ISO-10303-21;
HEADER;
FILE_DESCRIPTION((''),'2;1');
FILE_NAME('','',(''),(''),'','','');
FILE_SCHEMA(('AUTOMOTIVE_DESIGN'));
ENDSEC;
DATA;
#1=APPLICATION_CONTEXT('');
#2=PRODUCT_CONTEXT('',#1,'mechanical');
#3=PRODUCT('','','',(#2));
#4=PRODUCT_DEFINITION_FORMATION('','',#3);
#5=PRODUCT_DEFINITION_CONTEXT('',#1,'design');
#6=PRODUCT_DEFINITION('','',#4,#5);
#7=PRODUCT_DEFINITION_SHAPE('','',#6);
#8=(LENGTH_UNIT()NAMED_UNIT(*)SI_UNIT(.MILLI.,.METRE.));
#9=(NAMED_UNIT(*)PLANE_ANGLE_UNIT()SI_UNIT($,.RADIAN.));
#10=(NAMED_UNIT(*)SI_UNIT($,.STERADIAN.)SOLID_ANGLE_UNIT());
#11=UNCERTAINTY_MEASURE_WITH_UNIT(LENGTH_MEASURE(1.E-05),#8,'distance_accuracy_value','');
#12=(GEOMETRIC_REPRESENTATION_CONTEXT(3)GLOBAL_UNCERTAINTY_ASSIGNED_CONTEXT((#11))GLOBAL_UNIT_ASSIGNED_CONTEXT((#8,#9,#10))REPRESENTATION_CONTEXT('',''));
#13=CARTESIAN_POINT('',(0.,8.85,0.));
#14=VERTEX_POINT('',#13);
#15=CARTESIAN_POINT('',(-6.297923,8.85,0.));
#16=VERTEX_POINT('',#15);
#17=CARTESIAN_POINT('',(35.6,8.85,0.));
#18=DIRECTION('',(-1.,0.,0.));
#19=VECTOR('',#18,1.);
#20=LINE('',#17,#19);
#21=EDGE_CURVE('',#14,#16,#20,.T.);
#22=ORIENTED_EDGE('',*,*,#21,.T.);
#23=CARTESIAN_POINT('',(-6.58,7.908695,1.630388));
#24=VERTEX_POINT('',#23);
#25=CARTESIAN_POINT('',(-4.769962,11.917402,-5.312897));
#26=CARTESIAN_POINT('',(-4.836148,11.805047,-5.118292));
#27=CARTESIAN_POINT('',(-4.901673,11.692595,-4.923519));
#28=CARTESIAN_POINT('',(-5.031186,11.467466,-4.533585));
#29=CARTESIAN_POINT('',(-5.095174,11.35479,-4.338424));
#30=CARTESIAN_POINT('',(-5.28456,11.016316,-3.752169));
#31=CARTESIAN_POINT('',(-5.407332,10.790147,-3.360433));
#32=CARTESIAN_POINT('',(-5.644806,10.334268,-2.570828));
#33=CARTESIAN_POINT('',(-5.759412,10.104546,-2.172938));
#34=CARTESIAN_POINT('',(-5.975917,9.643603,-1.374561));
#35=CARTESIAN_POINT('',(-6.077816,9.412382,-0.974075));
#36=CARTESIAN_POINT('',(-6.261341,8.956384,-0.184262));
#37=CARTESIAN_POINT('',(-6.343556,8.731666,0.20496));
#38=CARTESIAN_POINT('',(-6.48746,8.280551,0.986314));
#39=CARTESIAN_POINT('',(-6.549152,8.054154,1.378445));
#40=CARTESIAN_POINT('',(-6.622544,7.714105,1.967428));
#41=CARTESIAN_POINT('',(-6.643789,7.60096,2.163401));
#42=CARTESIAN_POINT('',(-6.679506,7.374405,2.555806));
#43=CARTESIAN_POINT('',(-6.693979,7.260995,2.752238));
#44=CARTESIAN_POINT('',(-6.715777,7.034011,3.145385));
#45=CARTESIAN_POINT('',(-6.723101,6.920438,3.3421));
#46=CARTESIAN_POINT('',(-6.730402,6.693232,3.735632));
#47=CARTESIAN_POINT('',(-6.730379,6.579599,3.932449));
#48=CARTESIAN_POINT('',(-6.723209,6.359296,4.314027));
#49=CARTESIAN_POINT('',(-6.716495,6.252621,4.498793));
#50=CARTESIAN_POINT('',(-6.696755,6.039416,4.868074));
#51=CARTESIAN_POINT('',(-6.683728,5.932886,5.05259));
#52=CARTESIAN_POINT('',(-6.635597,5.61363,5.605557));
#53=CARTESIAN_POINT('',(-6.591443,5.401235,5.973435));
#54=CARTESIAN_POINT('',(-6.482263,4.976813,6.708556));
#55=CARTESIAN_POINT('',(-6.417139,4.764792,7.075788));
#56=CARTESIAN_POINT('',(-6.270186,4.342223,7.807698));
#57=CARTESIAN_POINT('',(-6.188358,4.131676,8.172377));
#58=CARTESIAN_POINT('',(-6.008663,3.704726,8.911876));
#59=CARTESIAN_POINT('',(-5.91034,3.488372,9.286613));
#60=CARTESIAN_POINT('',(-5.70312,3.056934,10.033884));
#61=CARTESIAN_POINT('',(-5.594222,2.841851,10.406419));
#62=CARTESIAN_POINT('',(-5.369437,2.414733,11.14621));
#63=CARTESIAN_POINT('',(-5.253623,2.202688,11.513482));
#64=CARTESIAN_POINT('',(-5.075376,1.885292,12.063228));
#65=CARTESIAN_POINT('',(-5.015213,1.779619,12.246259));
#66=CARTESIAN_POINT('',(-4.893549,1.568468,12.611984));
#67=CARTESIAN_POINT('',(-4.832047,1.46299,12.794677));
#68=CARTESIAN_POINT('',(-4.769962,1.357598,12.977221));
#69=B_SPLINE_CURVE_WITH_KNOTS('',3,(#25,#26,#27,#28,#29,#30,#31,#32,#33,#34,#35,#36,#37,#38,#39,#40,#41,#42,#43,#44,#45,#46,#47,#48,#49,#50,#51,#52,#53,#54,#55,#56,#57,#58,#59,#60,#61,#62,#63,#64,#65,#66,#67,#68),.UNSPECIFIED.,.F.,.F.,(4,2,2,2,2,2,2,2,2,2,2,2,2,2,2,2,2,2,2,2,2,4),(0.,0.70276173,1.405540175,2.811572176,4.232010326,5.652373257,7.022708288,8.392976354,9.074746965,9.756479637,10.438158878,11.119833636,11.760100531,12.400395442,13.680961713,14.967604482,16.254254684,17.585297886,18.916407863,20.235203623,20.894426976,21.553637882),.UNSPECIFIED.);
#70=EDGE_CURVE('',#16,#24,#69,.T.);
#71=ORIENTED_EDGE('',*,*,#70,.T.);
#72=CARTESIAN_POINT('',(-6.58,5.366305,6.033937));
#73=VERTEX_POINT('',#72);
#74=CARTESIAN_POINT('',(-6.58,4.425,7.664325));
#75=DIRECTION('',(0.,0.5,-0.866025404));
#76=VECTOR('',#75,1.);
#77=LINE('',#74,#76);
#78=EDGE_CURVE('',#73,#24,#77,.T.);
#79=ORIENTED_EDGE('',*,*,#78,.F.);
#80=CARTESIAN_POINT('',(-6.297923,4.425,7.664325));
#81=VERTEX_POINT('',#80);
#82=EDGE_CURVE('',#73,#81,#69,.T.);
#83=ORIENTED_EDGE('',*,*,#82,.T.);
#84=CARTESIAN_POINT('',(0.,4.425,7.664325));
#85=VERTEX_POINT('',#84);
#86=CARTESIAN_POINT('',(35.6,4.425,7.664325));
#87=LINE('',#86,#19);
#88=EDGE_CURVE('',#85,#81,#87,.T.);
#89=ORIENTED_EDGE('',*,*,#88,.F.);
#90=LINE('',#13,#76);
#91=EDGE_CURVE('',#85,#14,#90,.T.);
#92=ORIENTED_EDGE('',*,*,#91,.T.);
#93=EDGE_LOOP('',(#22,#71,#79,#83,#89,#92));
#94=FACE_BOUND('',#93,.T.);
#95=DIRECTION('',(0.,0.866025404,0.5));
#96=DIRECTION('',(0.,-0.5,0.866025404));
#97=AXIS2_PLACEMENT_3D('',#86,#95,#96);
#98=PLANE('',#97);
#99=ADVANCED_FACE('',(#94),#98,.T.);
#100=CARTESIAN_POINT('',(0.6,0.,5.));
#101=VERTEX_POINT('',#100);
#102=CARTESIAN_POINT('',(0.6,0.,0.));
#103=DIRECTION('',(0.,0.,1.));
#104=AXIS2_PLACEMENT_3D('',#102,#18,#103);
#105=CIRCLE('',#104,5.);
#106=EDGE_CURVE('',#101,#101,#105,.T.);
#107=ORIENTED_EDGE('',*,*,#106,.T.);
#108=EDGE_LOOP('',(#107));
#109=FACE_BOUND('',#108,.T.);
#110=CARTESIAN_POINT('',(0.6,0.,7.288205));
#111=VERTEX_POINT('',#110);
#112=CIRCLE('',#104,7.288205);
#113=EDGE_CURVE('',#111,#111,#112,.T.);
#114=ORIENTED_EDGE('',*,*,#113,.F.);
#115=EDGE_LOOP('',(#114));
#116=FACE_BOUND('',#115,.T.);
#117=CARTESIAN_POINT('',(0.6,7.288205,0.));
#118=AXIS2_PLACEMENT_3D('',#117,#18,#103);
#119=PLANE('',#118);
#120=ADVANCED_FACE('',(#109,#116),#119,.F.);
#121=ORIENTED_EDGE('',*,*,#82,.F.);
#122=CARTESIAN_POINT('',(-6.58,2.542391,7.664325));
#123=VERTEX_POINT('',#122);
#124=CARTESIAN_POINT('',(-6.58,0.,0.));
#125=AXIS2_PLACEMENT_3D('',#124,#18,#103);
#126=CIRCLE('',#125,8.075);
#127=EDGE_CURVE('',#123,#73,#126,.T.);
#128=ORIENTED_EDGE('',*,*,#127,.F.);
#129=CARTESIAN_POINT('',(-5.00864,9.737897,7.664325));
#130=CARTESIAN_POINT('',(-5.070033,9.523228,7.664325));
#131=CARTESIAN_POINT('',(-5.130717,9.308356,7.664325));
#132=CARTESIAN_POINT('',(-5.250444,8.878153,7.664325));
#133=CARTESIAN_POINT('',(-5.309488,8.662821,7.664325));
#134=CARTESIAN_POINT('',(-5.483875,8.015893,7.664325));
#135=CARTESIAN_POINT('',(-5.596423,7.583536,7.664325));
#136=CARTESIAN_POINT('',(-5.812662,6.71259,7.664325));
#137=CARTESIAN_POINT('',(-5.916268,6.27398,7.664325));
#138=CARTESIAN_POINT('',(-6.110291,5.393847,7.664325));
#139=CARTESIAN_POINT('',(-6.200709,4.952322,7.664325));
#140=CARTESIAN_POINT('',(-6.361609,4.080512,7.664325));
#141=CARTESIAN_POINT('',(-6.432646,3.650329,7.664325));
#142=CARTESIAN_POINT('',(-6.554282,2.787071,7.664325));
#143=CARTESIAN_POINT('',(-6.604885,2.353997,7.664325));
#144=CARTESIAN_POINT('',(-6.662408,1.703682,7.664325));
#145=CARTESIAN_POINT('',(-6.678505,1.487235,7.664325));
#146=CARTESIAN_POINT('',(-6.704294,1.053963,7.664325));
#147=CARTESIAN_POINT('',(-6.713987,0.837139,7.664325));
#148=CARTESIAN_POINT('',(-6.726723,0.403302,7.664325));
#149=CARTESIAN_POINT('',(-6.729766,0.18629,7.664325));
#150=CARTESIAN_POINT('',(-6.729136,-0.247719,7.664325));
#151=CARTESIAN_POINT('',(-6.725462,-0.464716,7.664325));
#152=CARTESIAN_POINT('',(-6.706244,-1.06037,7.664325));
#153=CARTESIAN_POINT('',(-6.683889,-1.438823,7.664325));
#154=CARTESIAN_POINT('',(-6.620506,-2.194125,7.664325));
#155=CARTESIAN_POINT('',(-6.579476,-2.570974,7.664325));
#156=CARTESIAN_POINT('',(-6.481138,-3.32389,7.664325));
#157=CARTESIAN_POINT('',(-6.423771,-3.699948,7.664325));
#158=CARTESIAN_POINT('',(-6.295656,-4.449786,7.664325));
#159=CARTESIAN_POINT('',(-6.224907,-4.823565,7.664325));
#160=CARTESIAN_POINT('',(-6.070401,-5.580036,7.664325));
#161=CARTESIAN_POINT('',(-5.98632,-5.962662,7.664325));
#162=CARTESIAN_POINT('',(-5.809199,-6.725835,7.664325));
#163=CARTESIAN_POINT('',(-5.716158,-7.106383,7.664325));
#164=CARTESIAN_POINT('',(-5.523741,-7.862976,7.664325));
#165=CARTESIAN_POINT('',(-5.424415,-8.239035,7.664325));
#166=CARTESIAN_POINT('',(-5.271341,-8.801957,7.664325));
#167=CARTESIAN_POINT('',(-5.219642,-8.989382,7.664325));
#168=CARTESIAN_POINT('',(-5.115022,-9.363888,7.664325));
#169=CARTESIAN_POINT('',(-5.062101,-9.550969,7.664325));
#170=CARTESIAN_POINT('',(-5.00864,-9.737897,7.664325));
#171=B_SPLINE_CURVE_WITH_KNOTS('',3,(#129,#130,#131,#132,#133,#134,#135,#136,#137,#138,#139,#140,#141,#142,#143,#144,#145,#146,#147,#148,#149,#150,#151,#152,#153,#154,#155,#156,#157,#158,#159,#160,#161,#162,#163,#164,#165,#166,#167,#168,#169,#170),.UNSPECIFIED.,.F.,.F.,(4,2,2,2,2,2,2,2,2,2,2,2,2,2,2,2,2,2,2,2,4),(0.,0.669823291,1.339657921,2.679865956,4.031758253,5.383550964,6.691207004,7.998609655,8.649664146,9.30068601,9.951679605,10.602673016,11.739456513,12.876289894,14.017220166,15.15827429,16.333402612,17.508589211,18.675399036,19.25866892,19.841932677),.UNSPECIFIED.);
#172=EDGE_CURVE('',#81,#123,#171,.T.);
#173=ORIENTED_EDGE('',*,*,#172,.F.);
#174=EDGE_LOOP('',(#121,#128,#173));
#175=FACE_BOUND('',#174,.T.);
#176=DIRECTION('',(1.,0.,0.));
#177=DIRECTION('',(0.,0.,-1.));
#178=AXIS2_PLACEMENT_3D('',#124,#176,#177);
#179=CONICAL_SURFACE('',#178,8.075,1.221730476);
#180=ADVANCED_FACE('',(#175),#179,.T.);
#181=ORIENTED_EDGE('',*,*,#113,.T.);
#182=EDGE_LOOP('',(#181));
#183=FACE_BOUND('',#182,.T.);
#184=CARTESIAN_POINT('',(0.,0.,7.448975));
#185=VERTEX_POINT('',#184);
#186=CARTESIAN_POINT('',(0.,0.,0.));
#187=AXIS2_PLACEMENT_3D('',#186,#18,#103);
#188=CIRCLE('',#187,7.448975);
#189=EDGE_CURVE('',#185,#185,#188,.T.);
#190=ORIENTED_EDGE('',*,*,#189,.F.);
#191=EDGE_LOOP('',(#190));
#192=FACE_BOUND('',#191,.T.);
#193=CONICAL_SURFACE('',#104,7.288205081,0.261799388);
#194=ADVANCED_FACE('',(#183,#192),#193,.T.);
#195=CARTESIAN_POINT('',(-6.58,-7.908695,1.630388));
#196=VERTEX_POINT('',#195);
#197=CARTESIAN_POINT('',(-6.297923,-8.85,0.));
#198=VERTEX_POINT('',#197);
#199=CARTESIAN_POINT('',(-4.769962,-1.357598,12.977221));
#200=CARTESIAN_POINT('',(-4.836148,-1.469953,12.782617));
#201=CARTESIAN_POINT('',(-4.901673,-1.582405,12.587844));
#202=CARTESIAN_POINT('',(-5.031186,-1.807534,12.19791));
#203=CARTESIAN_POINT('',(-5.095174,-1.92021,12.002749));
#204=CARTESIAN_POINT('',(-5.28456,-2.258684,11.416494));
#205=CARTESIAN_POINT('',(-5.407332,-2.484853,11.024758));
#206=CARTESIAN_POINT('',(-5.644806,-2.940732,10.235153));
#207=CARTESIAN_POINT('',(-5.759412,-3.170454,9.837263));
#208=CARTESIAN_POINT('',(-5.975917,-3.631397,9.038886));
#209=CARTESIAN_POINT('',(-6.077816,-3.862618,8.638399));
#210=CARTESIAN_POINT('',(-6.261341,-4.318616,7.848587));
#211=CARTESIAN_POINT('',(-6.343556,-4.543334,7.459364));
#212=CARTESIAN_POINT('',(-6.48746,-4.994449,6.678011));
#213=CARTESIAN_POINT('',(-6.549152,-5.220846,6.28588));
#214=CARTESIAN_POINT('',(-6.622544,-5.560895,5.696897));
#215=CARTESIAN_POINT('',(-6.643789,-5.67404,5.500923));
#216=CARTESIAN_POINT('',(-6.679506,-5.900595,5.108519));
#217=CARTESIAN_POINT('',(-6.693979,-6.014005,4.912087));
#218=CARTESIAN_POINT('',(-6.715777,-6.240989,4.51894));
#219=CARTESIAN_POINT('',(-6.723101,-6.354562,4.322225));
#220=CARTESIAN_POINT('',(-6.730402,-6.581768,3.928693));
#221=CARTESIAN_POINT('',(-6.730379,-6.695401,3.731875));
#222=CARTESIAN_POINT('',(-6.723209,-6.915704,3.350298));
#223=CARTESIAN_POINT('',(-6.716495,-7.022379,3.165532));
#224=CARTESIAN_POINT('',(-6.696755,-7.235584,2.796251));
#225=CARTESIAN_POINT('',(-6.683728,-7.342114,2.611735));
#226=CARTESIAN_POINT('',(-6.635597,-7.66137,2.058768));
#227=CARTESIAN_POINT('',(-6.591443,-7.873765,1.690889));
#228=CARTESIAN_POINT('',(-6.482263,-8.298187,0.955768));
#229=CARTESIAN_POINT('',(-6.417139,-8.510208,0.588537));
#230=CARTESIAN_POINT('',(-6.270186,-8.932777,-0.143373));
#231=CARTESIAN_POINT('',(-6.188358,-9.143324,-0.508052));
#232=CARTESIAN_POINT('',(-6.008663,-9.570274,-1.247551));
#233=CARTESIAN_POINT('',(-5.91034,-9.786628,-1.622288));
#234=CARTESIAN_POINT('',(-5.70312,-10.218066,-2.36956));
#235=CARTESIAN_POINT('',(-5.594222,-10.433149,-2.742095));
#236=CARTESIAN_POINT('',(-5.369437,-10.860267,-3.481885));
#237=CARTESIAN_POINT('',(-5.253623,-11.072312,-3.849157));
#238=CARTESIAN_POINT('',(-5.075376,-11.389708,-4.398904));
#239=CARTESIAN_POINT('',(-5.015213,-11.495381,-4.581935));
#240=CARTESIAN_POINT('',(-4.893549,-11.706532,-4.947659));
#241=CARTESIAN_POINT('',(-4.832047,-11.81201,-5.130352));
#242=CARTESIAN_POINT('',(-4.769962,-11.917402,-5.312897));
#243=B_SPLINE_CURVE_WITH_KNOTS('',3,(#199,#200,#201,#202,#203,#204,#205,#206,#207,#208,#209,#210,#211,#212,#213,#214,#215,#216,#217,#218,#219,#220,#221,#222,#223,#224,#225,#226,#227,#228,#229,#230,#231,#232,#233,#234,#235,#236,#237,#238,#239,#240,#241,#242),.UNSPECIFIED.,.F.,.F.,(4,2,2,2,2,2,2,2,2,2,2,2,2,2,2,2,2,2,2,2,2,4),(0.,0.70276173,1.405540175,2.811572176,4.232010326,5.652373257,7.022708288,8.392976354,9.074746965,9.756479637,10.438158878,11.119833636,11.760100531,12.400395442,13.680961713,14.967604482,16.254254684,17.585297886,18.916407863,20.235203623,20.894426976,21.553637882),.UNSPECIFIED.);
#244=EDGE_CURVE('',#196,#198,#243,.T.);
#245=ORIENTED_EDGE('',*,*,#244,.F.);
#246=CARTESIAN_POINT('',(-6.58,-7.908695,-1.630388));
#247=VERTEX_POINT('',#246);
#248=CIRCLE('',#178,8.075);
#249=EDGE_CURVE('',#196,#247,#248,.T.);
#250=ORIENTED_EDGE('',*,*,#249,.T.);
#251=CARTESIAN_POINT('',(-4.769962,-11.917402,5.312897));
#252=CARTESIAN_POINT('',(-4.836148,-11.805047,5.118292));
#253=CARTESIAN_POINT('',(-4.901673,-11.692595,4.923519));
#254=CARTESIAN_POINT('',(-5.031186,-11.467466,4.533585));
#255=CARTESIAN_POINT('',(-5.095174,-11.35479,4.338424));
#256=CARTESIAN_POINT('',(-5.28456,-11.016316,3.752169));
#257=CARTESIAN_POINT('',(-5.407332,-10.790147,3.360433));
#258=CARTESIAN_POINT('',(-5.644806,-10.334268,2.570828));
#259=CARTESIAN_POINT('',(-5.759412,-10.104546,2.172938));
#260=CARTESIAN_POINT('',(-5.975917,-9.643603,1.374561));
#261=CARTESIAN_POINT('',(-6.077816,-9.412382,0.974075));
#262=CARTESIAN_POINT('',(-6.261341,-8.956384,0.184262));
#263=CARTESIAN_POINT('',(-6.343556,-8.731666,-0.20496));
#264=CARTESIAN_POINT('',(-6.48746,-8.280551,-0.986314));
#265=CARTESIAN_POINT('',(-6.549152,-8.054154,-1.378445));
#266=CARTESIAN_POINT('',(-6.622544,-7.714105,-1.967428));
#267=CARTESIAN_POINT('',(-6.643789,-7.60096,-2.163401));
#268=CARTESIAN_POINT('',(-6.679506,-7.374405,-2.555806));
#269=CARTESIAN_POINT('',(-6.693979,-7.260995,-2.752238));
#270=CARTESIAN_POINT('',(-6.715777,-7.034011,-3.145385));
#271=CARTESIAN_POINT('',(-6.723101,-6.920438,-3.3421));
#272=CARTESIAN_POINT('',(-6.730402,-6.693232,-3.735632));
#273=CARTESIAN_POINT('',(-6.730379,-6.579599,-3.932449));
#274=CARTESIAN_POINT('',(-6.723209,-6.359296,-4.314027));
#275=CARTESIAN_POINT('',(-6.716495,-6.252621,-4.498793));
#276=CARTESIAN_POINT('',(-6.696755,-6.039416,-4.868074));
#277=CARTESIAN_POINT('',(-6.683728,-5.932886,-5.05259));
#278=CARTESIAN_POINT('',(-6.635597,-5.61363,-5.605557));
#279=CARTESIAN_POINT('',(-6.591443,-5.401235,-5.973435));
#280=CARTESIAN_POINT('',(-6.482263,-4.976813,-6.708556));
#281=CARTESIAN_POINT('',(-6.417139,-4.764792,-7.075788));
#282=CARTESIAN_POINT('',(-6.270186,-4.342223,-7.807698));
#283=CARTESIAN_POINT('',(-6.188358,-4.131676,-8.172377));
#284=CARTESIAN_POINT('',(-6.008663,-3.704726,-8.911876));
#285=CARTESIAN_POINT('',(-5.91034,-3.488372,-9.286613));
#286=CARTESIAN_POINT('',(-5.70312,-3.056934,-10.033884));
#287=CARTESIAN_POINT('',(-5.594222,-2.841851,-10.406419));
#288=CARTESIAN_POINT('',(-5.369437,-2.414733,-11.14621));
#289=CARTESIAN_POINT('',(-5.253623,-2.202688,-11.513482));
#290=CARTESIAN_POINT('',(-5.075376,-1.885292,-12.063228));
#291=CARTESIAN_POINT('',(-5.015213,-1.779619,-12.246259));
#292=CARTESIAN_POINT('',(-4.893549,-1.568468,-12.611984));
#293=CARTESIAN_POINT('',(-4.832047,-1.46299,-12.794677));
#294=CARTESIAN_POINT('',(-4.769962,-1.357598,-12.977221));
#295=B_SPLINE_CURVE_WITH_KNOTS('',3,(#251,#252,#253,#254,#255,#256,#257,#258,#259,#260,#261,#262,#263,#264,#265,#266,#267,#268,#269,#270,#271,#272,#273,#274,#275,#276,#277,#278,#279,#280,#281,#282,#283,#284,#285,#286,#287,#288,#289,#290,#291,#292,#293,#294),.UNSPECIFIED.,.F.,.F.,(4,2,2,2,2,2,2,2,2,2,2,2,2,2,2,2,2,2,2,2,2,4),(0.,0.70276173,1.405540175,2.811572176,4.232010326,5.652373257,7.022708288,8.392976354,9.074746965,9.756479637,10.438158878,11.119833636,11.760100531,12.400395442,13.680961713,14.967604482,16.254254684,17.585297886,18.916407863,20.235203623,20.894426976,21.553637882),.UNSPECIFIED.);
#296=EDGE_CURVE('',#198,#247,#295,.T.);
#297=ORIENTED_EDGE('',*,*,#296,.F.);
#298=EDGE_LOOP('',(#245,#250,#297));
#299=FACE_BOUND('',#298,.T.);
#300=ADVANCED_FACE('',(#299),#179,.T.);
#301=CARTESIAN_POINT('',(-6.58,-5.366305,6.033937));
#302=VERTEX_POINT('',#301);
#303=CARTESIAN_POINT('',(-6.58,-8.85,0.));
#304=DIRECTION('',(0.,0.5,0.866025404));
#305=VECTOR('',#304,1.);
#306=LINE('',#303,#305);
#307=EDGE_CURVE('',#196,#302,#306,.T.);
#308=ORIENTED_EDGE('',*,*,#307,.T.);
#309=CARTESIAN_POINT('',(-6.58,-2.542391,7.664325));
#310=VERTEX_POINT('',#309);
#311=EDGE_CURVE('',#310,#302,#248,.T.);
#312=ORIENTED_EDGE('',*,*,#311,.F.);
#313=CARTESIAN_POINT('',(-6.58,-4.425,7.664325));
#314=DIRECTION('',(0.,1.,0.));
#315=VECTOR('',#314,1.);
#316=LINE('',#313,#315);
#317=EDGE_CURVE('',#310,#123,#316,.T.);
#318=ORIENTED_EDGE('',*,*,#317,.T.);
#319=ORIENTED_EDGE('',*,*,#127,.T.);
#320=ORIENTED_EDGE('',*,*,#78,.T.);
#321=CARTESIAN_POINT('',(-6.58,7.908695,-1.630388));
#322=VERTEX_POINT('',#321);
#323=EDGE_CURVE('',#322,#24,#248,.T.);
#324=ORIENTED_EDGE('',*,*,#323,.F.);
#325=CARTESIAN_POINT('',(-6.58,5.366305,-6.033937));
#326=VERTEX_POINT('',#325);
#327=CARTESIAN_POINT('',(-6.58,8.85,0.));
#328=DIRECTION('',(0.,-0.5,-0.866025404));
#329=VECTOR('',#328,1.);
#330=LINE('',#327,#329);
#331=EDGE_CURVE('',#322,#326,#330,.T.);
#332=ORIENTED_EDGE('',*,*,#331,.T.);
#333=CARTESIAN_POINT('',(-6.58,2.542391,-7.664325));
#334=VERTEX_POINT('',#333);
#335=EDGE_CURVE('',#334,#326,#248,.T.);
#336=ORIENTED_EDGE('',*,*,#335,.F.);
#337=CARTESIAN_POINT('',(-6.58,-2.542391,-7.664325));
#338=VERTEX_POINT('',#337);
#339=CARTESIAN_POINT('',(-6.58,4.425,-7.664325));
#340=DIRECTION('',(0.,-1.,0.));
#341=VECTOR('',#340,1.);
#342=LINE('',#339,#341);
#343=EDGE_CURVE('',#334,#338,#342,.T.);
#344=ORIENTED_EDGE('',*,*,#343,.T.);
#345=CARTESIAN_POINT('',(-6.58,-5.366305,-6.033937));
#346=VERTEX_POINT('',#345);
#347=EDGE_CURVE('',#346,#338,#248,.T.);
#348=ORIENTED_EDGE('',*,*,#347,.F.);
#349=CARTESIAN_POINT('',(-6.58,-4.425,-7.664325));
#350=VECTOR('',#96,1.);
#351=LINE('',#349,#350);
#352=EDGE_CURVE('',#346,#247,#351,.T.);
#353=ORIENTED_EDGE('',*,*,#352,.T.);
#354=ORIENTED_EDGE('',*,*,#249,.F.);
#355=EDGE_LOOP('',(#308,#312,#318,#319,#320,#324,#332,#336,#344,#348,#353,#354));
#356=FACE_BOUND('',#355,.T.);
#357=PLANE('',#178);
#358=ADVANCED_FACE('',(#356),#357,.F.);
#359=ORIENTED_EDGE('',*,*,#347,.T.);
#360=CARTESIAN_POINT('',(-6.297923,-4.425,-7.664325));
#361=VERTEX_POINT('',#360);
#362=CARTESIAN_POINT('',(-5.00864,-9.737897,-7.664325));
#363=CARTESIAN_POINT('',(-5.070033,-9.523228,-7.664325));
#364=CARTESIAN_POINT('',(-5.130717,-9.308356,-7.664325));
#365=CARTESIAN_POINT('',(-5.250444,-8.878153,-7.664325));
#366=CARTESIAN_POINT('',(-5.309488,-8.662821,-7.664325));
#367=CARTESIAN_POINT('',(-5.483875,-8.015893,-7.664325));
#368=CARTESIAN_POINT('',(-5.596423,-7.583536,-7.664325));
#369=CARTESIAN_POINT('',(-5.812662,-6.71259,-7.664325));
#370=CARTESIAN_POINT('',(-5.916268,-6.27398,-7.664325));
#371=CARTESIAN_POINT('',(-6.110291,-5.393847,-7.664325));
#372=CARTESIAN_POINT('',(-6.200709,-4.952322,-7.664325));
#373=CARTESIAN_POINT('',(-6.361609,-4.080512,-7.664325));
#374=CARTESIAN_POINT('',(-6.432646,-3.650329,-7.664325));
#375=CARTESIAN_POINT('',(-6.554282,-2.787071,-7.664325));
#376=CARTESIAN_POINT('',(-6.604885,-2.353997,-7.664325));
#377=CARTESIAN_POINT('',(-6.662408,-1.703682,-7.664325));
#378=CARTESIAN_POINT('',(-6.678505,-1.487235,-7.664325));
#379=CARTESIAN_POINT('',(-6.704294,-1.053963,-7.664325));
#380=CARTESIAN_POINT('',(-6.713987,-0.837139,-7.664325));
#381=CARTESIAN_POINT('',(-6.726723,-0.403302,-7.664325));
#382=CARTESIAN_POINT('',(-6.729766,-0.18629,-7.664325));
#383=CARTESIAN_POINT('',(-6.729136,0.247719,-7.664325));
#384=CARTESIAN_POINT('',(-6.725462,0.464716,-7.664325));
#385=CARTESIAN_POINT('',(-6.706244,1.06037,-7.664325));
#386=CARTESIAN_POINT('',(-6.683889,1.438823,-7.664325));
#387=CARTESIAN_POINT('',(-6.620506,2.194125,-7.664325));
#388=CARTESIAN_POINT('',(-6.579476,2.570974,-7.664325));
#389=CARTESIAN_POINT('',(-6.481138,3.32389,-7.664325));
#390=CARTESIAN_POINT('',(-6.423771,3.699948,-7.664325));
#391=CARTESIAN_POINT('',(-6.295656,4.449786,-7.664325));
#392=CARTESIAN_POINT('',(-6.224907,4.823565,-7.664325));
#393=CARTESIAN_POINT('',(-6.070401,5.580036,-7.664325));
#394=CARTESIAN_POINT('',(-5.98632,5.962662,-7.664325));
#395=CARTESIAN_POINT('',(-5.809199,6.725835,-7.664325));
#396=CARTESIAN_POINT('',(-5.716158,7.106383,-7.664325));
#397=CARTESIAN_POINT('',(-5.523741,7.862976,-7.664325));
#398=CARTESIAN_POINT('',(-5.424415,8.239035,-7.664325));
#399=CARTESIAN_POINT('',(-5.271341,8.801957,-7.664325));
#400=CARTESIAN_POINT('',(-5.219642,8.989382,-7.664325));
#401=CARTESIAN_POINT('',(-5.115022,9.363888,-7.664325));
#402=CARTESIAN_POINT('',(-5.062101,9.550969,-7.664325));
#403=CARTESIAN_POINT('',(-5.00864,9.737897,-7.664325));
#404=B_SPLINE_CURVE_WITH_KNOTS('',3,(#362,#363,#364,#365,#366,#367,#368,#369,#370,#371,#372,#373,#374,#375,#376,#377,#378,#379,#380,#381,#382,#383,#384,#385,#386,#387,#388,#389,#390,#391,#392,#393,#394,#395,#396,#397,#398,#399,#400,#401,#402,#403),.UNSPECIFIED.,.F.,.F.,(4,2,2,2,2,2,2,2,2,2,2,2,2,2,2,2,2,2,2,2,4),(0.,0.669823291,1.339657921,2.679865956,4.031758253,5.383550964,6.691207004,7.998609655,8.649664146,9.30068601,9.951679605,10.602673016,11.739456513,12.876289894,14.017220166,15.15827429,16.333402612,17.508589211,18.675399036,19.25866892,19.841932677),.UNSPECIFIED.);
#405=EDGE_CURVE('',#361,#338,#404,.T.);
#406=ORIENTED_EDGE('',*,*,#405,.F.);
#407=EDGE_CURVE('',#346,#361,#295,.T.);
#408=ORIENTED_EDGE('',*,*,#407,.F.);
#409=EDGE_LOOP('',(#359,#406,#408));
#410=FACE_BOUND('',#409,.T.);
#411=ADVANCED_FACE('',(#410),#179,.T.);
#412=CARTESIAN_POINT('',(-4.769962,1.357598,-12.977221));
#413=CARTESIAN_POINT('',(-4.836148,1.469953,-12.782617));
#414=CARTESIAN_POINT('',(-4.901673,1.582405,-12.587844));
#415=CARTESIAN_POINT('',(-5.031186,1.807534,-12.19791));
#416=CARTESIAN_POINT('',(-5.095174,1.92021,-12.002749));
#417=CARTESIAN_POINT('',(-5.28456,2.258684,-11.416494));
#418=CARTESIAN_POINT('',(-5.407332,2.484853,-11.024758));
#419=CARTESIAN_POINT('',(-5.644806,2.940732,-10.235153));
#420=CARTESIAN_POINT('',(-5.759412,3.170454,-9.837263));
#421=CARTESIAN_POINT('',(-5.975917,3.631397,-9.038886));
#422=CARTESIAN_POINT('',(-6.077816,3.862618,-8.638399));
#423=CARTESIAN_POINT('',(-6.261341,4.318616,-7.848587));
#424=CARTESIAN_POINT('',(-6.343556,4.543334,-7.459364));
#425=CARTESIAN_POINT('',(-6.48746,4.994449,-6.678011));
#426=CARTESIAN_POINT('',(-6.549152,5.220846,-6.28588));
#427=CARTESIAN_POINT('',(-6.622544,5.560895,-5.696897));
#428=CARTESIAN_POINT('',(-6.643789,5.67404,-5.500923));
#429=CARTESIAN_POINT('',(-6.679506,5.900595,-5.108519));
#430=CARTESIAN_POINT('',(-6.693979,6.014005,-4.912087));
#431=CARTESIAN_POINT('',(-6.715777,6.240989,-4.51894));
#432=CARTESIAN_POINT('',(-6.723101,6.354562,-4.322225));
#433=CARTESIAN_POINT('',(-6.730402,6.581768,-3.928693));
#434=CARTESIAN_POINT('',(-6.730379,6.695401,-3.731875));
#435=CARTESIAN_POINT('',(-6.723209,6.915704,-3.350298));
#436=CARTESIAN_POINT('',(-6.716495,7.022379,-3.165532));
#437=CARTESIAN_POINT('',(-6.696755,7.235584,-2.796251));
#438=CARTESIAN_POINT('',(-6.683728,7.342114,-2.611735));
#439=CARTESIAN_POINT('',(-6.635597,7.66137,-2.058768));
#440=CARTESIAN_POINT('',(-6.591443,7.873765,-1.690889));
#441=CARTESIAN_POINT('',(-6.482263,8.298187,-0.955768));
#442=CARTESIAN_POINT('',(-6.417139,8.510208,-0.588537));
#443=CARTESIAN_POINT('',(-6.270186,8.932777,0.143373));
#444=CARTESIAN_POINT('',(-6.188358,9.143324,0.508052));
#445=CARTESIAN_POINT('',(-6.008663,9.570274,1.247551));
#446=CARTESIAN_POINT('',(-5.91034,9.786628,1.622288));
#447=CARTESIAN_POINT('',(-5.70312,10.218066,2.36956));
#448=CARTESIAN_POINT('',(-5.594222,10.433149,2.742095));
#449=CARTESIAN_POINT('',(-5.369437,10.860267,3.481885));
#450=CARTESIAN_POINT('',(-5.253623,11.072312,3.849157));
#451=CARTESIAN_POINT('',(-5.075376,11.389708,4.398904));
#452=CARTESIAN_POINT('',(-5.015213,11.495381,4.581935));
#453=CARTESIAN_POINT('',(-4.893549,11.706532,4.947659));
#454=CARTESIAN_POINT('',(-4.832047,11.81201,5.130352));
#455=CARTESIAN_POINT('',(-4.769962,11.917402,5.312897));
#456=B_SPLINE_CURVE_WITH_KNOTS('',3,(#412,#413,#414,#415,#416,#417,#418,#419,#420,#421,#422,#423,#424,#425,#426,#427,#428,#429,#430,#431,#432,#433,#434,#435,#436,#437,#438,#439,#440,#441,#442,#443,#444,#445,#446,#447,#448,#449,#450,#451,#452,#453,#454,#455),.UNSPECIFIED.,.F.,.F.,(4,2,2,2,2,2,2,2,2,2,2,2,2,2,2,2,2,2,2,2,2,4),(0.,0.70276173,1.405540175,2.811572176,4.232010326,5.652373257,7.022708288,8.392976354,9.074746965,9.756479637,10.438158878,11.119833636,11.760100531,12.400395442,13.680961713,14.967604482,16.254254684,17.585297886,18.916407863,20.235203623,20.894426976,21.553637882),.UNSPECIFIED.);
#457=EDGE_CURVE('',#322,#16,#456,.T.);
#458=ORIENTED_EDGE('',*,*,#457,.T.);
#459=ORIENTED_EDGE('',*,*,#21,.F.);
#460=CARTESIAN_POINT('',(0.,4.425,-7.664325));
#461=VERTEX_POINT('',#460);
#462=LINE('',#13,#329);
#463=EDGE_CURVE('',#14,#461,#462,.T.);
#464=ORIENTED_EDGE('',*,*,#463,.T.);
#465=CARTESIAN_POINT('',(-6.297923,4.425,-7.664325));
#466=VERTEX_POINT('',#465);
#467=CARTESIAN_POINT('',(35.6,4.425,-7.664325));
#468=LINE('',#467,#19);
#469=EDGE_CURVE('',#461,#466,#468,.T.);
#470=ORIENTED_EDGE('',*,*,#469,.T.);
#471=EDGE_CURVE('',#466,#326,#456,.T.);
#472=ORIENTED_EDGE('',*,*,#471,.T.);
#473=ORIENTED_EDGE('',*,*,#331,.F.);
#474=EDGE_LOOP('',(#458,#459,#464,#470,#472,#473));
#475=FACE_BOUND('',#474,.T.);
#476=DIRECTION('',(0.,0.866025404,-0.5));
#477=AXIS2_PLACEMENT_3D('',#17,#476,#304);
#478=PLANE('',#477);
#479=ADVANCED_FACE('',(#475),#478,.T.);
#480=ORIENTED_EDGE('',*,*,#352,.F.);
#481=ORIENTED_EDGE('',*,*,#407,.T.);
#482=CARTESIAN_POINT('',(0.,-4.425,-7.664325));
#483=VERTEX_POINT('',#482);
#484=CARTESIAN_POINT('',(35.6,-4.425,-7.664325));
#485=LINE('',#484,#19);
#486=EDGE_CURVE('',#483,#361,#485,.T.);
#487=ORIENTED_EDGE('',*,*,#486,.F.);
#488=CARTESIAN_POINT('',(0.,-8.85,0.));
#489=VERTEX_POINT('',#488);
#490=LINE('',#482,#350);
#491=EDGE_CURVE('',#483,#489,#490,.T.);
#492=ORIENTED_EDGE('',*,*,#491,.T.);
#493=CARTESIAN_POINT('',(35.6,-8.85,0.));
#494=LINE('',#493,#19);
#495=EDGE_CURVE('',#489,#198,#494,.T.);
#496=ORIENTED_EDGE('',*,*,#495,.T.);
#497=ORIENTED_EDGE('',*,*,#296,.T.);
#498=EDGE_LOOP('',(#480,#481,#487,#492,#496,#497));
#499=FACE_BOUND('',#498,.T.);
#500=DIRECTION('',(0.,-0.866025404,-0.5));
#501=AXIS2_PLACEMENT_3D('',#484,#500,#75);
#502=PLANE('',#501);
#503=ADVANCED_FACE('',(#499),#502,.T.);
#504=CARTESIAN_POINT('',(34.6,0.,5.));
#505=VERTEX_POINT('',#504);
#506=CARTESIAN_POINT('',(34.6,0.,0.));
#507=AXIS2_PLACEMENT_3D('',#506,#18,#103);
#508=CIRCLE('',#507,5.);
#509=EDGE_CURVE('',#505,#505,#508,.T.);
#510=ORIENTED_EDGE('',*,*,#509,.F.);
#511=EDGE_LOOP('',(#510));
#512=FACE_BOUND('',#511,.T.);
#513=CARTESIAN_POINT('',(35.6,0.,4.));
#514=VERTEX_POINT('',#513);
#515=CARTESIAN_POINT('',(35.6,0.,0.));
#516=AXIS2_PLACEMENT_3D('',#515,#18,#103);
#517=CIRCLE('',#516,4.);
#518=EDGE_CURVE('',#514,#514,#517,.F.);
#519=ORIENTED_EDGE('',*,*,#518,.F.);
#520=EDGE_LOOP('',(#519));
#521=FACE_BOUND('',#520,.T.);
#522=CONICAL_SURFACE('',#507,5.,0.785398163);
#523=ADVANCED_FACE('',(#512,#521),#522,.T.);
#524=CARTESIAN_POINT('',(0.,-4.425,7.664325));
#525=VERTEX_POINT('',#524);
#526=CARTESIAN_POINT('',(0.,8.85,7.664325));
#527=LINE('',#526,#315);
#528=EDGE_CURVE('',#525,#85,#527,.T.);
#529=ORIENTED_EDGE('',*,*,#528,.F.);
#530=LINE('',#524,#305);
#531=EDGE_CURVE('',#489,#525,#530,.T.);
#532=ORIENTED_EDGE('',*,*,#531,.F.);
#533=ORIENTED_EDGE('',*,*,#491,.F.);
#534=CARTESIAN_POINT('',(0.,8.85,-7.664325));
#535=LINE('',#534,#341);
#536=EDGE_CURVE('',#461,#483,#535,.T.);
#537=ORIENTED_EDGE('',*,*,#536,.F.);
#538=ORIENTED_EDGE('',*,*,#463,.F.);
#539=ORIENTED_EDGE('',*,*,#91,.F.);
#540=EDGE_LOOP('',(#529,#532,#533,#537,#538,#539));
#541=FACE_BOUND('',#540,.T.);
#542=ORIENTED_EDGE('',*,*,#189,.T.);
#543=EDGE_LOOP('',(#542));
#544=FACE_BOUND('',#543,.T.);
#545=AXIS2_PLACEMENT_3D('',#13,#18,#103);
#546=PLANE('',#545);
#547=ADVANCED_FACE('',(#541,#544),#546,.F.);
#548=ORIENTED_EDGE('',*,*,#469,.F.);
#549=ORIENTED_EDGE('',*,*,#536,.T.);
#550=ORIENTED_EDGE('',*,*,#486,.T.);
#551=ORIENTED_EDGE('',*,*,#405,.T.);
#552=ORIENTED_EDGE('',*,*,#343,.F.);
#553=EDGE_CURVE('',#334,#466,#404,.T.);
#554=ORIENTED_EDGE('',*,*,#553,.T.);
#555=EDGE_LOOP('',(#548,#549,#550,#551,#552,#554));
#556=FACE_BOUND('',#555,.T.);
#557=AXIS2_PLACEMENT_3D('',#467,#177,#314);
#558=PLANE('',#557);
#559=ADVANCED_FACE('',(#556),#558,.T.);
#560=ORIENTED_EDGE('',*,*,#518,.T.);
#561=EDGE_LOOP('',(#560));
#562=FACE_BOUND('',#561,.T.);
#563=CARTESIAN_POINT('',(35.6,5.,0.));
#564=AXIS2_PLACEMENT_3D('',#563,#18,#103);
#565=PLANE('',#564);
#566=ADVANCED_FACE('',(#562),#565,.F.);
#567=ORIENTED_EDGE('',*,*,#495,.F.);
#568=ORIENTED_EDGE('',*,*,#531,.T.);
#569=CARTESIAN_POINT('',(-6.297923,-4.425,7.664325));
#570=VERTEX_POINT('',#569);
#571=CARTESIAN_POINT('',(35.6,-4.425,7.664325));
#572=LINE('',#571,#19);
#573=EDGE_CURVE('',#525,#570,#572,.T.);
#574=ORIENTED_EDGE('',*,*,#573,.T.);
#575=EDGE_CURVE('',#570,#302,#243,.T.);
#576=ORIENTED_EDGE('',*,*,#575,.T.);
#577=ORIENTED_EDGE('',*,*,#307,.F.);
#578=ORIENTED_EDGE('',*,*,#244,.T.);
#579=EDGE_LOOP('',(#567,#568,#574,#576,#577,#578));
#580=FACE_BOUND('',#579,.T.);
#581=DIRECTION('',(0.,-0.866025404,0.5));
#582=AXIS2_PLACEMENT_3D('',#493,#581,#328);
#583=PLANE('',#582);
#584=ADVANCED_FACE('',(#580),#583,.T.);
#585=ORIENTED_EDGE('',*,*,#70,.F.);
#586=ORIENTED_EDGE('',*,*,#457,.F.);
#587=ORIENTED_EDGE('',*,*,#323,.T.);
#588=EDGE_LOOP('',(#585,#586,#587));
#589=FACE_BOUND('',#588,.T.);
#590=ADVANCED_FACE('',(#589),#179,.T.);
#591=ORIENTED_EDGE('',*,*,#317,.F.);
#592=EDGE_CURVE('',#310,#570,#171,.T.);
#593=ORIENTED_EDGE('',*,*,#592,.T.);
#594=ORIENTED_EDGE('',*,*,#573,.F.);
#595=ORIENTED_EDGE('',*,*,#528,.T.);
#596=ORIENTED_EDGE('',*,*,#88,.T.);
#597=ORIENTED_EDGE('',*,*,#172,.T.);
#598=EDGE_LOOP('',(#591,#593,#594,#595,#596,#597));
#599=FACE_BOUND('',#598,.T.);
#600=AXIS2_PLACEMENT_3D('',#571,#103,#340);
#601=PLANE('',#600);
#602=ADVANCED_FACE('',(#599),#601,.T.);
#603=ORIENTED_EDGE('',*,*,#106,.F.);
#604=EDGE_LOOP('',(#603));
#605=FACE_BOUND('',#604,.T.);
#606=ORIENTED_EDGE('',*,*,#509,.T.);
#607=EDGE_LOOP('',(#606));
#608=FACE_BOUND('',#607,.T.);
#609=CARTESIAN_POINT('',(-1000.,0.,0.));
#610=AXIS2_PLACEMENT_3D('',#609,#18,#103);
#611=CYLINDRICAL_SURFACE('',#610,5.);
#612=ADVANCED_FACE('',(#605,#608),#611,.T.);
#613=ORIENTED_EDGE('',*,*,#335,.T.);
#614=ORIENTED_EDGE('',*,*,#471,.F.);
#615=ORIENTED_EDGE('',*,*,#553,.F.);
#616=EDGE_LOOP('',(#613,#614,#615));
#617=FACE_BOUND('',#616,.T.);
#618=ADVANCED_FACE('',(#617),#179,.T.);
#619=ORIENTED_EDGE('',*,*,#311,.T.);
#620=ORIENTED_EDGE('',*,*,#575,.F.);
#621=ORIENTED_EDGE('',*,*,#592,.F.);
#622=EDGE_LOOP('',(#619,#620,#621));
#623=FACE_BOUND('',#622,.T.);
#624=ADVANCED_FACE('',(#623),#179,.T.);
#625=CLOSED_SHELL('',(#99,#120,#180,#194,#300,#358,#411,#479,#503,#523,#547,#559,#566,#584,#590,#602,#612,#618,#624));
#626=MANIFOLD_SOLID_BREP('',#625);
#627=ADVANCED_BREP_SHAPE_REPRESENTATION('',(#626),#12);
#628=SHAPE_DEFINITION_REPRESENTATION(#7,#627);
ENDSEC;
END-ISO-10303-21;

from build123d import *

# Parameters (mm, degrees)
SKETCH_2_OUTSIDE_W  = 29.51
SKETCH_2_OUTSIDE_H  = 29.51
CUT_EXTRUDE_1_DEPTH = 44.997697667
CHAMFER_1_SIZE      = 1


with BuildPart() as part:
    # Эскиз1 → Повернуть1 (revolve)
    with BuildSketch(Plane.XY, mode=Mode.PRIVATE) as revolve_1_sk:
        Polygon((-6.58, 0), (-6.58, 8.85), (0, 8.85), (0, 7.448974596), (0.6, 7.288205081), (0.6, 5), (35.6, 5), (35.6, 0), align=None)
    revolve(revolve_1_sk.sketch.rotate(Axis((-1000, 0, 0), (1, 0, 0)), 90), axis=Axis((-1000, 0, 0), (1, 0, 0)))

    # Эскиз2 outside → Вырез-Вытянуть1 (cut, through all)
    with BuildSketch(Plane.ZY.offset(6.58)):
        Rectangle(SKETCH_2_OUTSIDE_W, SKETCH_2_OUTSIDE_H)
        Polygon((0, -8.85), (7.664324823, -4.425), (7.664324823, 4.425), (0, 8.85), (-7.664324823, 4.425), (-7.664324823, -4.425), align=None, mode=Mode.SUBTRACT)
    extrude(amount=-CUT_EXTRUDE_1_DEPTH, mode=Mode.SUBTRACT)

    # Эскиз4 → Вырез-Повернуть1 (revolve, cut)
    with BuildSketch(Plane.XY):
        Polygon((-6.58, 8.075), (-6.297923068, 8.85), (-6.58, 8.85), align=None)
    revolve(axis=Axis((-1000, 0, 0), (1, 0, 0)), mode=Mode.SUBTRACT)

    # Фаска1
    chamfer_1_edges = [part.edges().sort_by_distance(p)[0] for p in [
        (35.6, 0, -5),
    ]]
    chamfer(chamfer_1_edges, length=CHAMFER_1_SIZE)


solid = part.part
